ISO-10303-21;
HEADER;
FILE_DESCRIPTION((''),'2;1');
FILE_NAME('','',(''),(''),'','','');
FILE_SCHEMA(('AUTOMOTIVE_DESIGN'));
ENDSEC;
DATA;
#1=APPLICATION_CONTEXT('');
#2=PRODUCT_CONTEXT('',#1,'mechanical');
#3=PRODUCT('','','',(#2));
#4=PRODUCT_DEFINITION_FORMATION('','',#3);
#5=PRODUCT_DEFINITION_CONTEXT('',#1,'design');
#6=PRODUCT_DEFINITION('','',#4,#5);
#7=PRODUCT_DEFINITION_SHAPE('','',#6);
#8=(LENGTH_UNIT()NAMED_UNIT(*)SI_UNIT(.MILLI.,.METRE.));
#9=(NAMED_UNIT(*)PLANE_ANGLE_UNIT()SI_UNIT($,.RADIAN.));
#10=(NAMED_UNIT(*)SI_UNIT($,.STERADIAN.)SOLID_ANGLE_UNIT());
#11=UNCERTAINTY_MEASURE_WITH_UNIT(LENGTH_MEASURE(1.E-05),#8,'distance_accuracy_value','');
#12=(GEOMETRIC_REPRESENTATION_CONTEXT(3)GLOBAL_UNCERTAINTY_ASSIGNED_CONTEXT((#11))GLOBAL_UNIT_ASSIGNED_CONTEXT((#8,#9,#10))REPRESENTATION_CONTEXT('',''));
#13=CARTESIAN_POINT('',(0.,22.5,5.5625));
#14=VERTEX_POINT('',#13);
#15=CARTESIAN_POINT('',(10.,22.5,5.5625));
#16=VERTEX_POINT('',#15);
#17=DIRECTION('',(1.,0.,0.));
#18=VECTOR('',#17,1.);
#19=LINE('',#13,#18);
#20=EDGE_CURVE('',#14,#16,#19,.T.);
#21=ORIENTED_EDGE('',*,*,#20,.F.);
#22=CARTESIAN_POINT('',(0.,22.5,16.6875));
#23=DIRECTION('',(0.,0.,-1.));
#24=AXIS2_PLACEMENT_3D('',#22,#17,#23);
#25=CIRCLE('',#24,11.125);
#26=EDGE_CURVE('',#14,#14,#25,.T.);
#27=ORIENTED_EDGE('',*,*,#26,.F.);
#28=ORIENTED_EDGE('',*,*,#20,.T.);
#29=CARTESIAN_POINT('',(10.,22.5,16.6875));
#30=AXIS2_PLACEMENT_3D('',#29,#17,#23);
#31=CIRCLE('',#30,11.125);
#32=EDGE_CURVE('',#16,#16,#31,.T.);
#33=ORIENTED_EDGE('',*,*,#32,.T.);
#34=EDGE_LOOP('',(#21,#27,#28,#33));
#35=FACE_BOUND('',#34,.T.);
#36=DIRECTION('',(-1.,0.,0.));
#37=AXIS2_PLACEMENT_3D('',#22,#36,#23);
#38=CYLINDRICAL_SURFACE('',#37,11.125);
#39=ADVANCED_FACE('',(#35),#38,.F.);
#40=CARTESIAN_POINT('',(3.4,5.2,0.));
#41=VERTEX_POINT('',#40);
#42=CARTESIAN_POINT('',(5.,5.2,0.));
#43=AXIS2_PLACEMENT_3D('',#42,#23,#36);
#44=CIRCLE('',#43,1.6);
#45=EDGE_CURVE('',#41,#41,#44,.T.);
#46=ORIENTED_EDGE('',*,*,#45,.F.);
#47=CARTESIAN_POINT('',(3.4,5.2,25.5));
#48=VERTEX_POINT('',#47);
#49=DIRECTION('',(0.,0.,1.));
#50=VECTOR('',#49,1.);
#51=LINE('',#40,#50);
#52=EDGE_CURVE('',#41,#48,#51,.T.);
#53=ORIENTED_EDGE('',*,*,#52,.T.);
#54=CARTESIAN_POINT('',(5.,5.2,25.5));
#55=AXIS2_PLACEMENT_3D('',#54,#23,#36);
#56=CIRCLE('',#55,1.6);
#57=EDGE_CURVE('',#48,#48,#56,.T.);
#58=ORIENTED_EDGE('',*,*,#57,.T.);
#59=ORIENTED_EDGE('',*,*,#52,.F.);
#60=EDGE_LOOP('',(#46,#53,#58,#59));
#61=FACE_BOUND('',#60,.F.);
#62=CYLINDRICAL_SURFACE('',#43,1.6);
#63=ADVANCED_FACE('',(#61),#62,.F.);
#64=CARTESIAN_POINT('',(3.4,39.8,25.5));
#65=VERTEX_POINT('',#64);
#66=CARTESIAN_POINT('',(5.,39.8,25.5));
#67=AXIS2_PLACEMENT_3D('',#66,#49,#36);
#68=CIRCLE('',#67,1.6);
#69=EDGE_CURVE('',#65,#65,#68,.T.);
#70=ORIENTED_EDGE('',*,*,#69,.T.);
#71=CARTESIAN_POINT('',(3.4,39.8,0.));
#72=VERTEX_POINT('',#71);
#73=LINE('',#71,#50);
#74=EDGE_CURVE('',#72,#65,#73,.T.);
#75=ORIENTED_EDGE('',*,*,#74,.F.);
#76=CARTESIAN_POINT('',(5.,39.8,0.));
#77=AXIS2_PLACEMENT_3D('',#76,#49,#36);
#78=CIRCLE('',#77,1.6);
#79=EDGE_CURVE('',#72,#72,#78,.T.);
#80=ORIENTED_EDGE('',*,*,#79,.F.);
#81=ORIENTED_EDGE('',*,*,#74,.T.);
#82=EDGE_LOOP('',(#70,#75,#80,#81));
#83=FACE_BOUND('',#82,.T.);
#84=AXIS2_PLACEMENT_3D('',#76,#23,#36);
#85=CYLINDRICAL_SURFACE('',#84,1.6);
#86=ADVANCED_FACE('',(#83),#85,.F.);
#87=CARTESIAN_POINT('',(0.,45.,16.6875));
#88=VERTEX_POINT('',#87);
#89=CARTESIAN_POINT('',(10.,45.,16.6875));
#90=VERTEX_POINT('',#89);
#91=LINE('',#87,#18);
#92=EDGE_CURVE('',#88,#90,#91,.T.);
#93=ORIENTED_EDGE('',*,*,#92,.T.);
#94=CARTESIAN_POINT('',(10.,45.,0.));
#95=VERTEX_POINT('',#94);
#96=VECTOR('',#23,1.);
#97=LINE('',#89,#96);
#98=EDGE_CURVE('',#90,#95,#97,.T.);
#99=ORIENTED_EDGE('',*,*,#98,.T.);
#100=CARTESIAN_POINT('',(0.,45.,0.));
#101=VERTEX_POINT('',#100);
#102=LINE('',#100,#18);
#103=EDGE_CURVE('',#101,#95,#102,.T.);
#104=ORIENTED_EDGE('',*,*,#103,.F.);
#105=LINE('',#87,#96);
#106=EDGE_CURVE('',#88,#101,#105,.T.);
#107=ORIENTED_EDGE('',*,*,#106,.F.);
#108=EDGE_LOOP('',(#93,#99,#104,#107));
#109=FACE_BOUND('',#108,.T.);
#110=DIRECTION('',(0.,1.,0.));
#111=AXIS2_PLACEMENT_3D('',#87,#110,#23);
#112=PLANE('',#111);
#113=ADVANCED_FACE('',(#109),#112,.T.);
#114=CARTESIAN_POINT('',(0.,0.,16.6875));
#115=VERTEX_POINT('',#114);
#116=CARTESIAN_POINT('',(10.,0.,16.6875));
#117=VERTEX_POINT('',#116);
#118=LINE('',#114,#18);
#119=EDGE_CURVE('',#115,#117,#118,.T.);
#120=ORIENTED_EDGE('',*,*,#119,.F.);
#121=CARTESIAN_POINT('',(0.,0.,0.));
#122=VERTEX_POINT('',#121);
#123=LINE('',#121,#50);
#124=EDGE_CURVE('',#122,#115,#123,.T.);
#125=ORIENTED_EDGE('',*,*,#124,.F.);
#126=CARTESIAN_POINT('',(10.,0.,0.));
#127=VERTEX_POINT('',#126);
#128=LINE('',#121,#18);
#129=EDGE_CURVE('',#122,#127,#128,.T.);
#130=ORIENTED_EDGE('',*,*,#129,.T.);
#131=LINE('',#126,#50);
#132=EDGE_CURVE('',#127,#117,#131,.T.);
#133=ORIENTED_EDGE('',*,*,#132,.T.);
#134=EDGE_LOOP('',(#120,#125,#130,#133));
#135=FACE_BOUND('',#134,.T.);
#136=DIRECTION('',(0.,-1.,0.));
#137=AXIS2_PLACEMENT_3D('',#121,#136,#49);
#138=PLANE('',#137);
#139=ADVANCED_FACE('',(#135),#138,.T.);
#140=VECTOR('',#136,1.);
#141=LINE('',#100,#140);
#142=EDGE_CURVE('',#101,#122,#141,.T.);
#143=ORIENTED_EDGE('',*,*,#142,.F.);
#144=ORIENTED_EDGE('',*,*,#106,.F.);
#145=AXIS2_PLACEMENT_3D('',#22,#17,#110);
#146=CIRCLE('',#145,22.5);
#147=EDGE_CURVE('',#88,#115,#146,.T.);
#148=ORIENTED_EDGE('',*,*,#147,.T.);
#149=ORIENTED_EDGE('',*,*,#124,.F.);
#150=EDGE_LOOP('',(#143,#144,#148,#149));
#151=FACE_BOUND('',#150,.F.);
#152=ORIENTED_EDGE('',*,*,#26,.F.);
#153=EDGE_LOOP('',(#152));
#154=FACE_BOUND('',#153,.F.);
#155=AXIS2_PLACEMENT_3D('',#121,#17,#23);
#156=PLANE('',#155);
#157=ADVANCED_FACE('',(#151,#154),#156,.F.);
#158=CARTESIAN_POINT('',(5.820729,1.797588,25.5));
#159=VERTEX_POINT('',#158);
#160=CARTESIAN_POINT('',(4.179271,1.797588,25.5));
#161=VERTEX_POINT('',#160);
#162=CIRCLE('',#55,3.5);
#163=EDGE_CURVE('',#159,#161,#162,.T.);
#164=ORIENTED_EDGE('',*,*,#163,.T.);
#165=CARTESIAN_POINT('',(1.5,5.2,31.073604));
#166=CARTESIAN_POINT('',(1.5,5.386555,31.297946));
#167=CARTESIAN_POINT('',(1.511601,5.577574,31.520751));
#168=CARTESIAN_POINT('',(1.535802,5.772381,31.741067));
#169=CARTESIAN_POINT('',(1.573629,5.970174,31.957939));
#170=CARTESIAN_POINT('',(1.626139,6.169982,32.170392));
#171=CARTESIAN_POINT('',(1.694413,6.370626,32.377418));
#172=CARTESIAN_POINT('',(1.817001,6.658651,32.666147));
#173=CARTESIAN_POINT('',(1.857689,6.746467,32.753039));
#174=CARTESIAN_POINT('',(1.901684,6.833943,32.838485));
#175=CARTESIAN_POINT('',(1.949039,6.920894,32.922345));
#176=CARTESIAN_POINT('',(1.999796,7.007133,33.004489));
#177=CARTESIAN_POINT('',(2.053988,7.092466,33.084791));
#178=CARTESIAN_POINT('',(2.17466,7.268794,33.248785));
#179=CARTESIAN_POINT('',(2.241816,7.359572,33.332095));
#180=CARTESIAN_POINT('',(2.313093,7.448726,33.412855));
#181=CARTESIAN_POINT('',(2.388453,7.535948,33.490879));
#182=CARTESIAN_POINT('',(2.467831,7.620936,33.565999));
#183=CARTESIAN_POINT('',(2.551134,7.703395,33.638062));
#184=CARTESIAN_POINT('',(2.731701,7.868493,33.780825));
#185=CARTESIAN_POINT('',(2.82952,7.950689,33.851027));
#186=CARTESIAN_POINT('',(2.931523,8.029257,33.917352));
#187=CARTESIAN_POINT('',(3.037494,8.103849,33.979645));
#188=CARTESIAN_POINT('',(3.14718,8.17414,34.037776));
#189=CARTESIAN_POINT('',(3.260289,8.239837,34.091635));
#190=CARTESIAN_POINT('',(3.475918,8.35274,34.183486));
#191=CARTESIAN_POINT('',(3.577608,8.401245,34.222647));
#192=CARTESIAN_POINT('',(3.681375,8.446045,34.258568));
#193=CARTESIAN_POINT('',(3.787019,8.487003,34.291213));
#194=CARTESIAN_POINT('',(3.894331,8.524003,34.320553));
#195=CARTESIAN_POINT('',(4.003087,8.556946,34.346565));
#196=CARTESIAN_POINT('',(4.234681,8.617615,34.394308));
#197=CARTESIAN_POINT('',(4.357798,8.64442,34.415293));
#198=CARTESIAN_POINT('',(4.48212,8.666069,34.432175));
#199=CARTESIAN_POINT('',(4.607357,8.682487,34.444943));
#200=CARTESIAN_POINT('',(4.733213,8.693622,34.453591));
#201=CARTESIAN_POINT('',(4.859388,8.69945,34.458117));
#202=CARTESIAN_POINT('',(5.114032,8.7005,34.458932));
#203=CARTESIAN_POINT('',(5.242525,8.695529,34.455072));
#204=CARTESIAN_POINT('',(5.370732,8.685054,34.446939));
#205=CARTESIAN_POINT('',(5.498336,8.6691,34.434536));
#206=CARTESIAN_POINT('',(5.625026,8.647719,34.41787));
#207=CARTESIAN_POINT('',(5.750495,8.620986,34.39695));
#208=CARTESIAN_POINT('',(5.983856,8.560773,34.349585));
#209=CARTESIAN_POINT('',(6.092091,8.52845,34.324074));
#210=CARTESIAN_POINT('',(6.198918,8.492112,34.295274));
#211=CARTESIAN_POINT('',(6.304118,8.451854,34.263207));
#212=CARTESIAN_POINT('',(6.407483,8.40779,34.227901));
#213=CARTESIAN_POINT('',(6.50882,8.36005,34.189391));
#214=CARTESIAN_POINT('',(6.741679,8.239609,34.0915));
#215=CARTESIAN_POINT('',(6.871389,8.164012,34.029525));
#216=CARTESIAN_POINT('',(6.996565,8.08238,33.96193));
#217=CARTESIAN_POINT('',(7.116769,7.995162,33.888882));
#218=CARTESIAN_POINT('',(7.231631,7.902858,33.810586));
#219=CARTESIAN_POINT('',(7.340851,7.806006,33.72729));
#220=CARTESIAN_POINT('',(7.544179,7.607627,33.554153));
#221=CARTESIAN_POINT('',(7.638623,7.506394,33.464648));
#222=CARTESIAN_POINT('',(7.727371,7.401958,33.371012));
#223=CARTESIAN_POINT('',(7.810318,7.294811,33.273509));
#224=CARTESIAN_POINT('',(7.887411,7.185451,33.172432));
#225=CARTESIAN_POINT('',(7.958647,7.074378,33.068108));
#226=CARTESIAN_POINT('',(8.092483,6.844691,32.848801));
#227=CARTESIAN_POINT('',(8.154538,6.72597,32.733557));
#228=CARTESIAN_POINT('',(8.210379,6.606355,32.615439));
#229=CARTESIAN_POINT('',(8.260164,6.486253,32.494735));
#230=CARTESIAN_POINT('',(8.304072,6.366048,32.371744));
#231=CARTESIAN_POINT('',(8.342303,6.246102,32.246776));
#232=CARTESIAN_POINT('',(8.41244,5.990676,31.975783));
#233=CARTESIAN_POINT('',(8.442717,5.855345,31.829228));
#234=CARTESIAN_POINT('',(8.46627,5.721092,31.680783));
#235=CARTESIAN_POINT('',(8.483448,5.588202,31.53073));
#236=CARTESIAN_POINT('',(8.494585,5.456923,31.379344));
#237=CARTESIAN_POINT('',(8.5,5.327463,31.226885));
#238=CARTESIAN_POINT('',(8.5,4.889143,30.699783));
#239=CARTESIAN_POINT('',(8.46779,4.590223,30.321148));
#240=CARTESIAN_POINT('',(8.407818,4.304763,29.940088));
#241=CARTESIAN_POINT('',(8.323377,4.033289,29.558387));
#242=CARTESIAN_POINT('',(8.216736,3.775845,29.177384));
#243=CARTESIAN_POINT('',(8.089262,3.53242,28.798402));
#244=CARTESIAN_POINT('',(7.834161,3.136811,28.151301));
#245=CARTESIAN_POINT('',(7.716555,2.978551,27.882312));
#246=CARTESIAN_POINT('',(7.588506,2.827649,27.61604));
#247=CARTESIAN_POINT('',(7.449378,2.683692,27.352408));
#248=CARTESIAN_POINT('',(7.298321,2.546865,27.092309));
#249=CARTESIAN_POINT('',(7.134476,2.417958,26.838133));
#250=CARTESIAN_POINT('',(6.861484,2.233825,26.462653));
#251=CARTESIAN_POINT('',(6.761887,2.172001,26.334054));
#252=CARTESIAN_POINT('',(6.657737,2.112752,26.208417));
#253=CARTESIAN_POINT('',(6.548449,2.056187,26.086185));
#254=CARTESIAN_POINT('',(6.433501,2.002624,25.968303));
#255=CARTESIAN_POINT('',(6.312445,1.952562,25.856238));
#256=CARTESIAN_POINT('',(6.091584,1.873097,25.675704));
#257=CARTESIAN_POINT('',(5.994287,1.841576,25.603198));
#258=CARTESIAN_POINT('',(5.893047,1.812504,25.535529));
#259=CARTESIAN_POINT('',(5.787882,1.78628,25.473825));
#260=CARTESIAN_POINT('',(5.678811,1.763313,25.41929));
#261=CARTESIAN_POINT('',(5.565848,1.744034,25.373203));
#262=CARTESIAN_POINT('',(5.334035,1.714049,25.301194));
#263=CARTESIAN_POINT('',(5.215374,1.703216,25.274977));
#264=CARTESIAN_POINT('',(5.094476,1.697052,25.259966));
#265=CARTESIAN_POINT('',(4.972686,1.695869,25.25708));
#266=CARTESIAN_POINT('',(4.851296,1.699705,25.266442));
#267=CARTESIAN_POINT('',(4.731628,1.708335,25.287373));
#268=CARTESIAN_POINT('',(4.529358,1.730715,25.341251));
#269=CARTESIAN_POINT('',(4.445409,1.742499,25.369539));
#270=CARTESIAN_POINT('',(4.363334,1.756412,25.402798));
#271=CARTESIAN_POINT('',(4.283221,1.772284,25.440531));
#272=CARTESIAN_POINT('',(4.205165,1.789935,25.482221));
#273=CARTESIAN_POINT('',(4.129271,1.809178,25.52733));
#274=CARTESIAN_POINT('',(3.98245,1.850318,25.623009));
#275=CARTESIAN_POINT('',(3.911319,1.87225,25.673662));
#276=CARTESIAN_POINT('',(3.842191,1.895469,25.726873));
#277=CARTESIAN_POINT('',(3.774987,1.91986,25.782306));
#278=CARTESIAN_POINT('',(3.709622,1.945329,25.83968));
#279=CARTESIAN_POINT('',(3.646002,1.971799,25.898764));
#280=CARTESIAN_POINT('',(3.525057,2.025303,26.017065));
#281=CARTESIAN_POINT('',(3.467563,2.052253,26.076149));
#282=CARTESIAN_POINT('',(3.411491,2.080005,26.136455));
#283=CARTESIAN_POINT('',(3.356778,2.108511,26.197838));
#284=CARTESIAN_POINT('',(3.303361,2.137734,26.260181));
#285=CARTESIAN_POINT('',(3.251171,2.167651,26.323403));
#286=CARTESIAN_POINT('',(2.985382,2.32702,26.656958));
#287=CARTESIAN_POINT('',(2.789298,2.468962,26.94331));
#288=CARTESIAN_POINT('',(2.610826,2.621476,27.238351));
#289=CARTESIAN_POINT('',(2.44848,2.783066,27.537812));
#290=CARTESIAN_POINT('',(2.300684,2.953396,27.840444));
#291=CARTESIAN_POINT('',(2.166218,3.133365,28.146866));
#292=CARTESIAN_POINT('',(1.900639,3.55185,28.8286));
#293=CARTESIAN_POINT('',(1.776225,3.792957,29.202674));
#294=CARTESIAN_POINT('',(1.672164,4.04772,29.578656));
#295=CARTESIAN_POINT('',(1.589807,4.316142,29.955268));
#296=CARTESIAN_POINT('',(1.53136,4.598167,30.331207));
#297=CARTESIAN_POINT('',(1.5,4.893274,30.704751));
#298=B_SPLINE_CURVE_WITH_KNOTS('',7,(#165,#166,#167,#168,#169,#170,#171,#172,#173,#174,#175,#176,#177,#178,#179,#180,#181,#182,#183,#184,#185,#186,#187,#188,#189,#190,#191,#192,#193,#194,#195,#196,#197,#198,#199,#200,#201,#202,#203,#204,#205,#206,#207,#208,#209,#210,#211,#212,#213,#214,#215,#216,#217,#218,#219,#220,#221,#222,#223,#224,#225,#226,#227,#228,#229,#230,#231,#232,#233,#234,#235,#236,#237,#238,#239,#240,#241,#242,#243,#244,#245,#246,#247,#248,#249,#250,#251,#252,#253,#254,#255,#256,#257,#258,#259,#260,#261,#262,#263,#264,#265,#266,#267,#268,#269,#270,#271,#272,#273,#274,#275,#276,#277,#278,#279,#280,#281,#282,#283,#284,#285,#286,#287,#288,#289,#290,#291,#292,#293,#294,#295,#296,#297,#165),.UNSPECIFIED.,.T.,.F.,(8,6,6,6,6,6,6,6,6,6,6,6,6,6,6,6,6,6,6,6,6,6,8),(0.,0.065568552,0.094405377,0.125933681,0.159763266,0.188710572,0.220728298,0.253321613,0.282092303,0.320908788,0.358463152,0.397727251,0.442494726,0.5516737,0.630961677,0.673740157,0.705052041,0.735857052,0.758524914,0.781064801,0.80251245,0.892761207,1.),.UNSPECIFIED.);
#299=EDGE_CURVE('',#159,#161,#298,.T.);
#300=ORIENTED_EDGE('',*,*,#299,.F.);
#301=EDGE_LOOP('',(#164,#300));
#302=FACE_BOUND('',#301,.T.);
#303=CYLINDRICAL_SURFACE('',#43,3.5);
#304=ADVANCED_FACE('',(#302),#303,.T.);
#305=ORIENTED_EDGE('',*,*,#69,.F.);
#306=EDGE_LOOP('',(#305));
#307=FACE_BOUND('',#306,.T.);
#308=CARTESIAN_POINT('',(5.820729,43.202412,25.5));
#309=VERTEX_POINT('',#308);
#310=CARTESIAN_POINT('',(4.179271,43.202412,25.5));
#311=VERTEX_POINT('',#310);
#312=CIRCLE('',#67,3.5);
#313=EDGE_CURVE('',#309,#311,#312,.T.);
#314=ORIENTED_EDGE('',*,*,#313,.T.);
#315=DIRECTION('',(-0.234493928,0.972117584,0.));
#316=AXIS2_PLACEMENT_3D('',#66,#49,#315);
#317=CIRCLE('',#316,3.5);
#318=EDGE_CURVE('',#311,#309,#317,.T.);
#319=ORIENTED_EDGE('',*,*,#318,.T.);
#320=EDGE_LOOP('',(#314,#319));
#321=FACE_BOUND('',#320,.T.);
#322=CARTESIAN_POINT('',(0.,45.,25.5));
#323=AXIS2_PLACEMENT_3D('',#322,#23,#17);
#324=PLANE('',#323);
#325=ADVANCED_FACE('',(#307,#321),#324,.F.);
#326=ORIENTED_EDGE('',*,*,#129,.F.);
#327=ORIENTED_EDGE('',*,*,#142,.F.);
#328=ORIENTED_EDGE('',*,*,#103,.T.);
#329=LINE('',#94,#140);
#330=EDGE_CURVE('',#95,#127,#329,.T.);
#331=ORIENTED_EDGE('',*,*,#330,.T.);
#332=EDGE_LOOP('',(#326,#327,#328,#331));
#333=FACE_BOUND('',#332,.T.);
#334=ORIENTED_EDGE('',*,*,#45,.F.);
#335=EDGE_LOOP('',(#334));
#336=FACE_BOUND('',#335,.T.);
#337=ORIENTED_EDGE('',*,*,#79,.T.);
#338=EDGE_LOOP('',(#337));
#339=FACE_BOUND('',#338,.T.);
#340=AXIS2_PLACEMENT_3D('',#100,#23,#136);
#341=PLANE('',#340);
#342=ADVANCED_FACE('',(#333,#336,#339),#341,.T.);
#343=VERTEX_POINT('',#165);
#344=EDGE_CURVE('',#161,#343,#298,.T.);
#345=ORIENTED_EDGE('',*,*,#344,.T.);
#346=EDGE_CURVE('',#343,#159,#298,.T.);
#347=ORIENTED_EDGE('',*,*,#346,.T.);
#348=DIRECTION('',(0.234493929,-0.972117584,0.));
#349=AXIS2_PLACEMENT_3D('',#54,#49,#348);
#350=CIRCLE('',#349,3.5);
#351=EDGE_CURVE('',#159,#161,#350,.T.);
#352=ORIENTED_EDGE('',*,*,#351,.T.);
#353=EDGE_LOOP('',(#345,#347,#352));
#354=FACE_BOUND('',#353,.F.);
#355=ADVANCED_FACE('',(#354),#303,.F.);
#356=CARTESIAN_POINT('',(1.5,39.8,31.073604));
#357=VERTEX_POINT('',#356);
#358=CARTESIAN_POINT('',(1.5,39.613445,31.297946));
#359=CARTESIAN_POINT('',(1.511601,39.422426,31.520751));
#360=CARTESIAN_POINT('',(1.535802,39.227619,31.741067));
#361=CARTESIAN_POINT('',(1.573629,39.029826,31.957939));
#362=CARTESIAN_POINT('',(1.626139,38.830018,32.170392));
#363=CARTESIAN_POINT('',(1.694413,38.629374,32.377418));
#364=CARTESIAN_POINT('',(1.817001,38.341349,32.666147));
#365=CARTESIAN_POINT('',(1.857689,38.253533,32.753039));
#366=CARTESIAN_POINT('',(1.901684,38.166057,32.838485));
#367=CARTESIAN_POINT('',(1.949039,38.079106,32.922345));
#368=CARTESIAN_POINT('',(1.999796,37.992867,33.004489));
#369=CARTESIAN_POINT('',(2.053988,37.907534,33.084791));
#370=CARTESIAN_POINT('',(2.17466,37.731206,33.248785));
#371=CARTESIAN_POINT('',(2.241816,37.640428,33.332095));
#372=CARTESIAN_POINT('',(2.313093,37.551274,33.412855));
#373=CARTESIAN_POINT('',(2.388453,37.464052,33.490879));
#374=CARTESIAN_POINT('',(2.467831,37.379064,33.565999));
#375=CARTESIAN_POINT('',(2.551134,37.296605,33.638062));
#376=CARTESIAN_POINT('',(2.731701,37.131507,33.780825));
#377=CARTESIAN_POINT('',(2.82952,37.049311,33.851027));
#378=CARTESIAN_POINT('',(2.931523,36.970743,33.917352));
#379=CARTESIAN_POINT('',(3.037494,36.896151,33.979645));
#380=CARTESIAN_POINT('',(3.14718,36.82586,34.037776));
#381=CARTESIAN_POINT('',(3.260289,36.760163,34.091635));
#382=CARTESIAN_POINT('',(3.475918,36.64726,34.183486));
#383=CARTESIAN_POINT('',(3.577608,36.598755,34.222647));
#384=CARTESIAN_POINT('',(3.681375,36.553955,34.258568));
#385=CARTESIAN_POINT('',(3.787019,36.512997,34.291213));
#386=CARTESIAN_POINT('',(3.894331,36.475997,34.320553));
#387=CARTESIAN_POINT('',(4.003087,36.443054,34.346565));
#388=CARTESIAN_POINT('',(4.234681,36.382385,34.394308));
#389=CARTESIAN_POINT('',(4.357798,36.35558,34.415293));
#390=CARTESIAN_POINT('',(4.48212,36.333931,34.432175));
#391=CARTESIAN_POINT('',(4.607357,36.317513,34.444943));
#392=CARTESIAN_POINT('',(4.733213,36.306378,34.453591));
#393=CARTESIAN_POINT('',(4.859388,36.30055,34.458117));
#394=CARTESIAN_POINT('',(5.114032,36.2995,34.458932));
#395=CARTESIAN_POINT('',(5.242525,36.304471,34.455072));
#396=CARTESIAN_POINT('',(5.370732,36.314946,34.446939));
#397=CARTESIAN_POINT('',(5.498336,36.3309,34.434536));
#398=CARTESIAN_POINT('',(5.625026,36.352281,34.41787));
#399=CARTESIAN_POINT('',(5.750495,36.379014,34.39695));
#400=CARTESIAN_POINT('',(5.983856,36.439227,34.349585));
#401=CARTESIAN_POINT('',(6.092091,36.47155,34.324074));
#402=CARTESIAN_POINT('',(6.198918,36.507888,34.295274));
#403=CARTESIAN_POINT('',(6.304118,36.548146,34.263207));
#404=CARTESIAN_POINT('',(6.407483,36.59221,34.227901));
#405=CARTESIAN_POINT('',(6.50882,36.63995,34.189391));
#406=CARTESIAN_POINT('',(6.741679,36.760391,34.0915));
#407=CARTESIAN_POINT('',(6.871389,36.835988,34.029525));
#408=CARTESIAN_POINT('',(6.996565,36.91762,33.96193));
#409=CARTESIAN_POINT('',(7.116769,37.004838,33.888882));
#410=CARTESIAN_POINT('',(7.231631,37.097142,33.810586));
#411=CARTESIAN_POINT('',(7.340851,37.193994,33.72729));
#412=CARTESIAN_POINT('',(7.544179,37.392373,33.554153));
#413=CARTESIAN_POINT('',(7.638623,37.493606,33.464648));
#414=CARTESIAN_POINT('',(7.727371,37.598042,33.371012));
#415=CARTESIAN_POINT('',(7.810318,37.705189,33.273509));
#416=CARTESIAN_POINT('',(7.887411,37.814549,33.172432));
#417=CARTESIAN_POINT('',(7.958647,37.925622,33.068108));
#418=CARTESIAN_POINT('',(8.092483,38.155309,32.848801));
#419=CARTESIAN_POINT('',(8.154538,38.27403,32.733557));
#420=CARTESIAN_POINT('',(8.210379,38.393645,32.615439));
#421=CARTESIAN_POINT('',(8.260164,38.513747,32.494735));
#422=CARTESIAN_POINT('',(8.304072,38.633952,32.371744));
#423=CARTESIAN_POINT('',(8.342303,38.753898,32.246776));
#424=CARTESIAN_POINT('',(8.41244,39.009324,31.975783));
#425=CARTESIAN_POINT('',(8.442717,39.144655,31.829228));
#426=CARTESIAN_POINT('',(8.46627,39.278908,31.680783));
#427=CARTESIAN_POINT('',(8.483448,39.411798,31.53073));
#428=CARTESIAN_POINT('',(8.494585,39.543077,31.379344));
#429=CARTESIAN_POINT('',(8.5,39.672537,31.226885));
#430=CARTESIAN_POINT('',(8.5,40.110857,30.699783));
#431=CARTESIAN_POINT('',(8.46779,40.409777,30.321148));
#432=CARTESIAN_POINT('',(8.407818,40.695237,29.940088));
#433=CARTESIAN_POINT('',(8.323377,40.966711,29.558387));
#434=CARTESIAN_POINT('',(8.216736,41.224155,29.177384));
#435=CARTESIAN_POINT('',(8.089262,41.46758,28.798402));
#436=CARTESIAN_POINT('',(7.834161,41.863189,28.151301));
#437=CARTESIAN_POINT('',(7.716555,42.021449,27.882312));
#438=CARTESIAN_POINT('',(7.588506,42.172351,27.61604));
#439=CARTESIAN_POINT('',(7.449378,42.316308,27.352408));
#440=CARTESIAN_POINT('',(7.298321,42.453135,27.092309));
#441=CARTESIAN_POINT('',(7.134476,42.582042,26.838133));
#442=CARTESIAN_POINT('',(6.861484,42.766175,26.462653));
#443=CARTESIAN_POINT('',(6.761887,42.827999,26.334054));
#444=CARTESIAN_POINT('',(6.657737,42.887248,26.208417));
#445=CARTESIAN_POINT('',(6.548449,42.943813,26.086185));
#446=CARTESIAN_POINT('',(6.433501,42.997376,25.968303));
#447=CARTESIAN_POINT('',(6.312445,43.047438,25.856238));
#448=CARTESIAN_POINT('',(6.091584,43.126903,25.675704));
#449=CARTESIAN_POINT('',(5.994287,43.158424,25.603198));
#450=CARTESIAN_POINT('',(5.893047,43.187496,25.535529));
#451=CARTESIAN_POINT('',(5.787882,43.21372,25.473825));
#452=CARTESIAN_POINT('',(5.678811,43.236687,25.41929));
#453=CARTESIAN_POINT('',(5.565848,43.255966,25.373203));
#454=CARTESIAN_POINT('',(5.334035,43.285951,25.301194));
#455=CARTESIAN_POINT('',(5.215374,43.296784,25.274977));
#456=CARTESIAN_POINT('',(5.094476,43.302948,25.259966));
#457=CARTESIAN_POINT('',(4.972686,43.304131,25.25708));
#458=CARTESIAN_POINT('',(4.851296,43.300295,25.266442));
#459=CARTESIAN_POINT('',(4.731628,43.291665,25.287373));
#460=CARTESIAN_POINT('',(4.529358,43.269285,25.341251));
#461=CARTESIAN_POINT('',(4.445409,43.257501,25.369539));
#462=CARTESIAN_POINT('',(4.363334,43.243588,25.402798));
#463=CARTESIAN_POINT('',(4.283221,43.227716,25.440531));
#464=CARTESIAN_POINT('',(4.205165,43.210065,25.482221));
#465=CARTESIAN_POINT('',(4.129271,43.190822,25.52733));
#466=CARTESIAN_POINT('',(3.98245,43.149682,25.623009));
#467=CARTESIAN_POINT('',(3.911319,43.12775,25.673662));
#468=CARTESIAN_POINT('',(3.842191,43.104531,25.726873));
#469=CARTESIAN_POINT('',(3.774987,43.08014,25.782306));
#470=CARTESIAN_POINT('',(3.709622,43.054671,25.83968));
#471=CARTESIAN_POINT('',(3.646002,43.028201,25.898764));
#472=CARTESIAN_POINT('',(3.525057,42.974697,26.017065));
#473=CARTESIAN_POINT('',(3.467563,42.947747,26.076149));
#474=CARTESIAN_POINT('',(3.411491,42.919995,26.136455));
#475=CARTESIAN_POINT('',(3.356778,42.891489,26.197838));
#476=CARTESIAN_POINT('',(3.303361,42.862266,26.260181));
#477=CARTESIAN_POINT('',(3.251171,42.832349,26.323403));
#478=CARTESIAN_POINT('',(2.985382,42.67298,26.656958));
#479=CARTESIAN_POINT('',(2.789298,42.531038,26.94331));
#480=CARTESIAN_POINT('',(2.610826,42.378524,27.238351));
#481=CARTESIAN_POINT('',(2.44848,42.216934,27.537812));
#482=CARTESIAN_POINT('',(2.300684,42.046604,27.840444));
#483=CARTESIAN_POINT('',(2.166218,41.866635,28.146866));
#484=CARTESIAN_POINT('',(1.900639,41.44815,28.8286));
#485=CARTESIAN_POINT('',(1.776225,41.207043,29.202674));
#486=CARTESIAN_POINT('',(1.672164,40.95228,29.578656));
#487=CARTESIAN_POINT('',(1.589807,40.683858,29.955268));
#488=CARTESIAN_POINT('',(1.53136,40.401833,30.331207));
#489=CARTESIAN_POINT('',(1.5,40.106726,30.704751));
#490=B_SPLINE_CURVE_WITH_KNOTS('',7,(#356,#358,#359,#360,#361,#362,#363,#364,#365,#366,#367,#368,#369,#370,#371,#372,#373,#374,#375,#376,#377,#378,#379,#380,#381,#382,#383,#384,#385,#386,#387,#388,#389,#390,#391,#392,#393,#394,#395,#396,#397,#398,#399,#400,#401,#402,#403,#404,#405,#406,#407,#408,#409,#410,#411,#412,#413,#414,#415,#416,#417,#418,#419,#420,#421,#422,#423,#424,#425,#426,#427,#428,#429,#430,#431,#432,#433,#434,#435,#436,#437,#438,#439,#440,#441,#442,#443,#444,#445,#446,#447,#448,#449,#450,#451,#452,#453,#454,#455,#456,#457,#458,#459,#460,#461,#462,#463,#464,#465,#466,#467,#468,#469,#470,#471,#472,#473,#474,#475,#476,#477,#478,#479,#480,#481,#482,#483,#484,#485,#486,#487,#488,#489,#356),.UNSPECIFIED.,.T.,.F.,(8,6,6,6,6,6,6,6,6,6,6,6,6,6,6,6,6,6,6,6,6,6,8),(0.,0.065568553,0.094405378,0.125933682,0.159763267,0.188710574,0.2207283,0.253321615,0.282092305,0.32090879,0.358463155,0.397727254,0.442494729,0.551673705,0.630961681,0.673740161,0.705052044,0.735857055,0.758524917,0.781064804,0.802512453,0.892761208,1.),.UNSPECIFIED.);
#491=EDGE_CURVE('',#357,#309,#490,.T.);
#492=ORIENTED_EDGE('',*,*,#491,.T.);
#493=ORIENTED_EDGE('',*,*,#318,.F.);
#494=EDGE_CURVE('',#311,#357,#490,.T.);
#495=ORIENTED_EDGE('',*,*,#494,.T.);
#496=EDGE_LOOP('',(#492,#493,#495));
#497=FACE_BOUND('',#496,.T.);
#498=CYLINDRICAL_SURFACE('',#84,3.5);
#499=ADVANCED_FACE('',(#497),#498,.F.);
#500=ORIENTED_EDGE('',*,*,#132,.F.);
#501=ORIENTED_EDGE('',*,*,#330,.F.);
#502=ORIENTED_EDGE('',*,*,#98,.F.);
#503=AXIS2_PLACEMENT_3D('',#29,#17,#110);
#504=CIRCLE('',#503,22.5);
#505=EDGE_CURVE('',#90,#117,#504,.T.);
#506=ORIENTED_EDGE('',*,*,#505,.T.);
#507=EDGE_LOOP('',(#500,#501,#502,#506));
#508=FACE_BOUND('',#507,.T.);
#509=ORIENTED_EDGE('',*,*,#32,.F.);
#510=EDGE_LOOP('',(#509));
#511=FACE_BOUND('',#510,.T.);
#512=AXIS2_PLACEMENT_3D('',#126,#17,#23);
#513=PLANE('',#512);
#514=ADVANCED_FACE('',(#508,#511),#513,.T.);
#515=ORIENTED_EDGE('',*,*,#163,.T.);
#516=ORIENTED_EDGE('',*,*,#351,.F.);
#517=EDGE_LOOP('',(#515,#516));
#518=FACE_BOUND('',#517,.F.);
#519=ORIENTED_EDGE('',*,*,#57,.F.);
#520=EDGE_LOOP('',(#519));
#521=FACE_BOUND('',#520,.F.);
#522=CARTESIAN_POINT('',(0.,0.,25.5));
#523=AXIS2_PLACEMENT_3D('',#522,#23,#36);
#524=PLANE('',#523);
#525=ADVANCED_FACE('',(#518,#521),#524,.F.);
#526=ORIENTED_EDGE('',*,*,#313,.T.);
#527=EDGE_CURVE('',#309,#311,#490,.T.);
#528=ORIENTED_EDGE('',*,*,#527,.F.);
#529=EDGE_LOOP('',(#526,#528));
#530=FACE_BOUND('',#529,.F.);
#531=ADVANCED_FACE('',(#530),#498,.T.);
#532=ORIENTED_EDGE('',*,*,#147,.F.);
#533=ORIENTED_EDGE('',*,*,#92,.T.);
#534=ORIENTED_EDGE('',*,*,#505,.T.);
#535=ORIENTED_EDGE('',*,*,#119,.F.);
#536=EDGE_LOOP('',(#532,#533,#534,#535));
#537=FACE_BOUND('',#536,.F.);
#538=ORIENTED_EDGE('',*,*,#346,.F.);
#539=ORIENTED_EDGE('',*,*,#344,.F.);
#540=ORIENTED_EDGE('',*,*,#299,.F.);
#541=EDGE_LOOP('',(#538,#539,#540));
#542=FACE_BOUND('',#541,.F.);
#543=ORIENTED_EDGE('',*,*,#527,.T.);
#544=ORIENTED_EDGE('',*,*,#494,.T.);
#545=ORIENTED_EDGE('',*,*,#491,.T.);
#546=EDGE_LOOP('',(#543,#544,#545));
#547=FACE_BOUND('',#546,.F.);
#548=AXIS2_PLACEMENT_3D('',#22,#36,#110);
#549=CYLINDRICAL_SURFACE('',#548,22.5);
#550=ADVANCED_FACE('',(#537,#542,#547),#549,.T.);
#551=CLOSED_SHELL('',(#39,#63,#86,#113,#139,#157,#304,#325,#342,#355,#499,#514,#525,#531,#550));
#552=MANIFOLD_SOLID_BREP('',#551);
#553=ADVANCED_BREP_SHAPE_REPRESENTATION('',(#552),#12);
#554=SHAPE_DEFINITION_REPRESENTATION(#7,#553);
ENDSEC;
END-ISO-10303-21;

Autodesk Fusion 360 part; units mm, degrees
sketch "Sketch1" plane through (0, 0, 0) normal (1, 0, 0) x (0, 0, -1)
  line L0 (-16.6875, 45) -> (0, 45)
  line L1 (0, 45) -> (0, 0)
  line L2 (0, 0) -> (-16.6875, 0)
  arc A0 (-16.6875, 45) -> (-16.6875, 0) centre (-16.6875, 22.5) ccw
  circle A1 centre (-16.6875, 22.5) radius 11.125
  line L3 (0, 22.5) -> (-29, 22.5) construction
  circle A2 centre (-16.6875, 22.5) radius 9.125
  dimension "d1" = 22.25
  dimension "d2" = 45
  dimension "d3" = 16.6875
  dimension "d4" = -2
extrude "Extrude2" add sketch "Sketch1" along normal blind 10 contours L0 L1 L2 A0
sketch "Sketch2" plane through (0, 0, 0) normal (0, 0, -1) x (-1, 0, 0)
  line L0 (0, 45) -> (-10, 45)
  line L1 (-10, 0) -> (0, 0)
  circle A0 centre (-5, 5.2) radius 3.5
  line L2 (-5, 0) -> (-5, 4) construction
  circle A1 centre (-5, 5.2) radius 1.6
  line L3 (0, 0) -> (0, 45)
  line L4 (-10, 45) -> (-10, 0)
  dimension "d13" = 7
  dimension "d14" = 5.2
  dimension "d17" = 3.2
extrude "Extrude4" cut sketch "Sketch2" against normal blind 40 contours A0 | A1
extrude "Extrude5" add sketch "Sketch2" against normal blind 25.5 contours A0
ref_plane "WorkPlane1" through (5, 22.5, 8.3438) normal (0, -1, 0) x (0, 0, -1)
mirror "Mirror1" about plane through (5, 22.5, 8.3438) normal (0, -1, 0) of "Extrude4", "Extrude5"
equation "d3 = d1 * 0.75"
equation "d14 = d13 / 2 + 1.7 mm"
